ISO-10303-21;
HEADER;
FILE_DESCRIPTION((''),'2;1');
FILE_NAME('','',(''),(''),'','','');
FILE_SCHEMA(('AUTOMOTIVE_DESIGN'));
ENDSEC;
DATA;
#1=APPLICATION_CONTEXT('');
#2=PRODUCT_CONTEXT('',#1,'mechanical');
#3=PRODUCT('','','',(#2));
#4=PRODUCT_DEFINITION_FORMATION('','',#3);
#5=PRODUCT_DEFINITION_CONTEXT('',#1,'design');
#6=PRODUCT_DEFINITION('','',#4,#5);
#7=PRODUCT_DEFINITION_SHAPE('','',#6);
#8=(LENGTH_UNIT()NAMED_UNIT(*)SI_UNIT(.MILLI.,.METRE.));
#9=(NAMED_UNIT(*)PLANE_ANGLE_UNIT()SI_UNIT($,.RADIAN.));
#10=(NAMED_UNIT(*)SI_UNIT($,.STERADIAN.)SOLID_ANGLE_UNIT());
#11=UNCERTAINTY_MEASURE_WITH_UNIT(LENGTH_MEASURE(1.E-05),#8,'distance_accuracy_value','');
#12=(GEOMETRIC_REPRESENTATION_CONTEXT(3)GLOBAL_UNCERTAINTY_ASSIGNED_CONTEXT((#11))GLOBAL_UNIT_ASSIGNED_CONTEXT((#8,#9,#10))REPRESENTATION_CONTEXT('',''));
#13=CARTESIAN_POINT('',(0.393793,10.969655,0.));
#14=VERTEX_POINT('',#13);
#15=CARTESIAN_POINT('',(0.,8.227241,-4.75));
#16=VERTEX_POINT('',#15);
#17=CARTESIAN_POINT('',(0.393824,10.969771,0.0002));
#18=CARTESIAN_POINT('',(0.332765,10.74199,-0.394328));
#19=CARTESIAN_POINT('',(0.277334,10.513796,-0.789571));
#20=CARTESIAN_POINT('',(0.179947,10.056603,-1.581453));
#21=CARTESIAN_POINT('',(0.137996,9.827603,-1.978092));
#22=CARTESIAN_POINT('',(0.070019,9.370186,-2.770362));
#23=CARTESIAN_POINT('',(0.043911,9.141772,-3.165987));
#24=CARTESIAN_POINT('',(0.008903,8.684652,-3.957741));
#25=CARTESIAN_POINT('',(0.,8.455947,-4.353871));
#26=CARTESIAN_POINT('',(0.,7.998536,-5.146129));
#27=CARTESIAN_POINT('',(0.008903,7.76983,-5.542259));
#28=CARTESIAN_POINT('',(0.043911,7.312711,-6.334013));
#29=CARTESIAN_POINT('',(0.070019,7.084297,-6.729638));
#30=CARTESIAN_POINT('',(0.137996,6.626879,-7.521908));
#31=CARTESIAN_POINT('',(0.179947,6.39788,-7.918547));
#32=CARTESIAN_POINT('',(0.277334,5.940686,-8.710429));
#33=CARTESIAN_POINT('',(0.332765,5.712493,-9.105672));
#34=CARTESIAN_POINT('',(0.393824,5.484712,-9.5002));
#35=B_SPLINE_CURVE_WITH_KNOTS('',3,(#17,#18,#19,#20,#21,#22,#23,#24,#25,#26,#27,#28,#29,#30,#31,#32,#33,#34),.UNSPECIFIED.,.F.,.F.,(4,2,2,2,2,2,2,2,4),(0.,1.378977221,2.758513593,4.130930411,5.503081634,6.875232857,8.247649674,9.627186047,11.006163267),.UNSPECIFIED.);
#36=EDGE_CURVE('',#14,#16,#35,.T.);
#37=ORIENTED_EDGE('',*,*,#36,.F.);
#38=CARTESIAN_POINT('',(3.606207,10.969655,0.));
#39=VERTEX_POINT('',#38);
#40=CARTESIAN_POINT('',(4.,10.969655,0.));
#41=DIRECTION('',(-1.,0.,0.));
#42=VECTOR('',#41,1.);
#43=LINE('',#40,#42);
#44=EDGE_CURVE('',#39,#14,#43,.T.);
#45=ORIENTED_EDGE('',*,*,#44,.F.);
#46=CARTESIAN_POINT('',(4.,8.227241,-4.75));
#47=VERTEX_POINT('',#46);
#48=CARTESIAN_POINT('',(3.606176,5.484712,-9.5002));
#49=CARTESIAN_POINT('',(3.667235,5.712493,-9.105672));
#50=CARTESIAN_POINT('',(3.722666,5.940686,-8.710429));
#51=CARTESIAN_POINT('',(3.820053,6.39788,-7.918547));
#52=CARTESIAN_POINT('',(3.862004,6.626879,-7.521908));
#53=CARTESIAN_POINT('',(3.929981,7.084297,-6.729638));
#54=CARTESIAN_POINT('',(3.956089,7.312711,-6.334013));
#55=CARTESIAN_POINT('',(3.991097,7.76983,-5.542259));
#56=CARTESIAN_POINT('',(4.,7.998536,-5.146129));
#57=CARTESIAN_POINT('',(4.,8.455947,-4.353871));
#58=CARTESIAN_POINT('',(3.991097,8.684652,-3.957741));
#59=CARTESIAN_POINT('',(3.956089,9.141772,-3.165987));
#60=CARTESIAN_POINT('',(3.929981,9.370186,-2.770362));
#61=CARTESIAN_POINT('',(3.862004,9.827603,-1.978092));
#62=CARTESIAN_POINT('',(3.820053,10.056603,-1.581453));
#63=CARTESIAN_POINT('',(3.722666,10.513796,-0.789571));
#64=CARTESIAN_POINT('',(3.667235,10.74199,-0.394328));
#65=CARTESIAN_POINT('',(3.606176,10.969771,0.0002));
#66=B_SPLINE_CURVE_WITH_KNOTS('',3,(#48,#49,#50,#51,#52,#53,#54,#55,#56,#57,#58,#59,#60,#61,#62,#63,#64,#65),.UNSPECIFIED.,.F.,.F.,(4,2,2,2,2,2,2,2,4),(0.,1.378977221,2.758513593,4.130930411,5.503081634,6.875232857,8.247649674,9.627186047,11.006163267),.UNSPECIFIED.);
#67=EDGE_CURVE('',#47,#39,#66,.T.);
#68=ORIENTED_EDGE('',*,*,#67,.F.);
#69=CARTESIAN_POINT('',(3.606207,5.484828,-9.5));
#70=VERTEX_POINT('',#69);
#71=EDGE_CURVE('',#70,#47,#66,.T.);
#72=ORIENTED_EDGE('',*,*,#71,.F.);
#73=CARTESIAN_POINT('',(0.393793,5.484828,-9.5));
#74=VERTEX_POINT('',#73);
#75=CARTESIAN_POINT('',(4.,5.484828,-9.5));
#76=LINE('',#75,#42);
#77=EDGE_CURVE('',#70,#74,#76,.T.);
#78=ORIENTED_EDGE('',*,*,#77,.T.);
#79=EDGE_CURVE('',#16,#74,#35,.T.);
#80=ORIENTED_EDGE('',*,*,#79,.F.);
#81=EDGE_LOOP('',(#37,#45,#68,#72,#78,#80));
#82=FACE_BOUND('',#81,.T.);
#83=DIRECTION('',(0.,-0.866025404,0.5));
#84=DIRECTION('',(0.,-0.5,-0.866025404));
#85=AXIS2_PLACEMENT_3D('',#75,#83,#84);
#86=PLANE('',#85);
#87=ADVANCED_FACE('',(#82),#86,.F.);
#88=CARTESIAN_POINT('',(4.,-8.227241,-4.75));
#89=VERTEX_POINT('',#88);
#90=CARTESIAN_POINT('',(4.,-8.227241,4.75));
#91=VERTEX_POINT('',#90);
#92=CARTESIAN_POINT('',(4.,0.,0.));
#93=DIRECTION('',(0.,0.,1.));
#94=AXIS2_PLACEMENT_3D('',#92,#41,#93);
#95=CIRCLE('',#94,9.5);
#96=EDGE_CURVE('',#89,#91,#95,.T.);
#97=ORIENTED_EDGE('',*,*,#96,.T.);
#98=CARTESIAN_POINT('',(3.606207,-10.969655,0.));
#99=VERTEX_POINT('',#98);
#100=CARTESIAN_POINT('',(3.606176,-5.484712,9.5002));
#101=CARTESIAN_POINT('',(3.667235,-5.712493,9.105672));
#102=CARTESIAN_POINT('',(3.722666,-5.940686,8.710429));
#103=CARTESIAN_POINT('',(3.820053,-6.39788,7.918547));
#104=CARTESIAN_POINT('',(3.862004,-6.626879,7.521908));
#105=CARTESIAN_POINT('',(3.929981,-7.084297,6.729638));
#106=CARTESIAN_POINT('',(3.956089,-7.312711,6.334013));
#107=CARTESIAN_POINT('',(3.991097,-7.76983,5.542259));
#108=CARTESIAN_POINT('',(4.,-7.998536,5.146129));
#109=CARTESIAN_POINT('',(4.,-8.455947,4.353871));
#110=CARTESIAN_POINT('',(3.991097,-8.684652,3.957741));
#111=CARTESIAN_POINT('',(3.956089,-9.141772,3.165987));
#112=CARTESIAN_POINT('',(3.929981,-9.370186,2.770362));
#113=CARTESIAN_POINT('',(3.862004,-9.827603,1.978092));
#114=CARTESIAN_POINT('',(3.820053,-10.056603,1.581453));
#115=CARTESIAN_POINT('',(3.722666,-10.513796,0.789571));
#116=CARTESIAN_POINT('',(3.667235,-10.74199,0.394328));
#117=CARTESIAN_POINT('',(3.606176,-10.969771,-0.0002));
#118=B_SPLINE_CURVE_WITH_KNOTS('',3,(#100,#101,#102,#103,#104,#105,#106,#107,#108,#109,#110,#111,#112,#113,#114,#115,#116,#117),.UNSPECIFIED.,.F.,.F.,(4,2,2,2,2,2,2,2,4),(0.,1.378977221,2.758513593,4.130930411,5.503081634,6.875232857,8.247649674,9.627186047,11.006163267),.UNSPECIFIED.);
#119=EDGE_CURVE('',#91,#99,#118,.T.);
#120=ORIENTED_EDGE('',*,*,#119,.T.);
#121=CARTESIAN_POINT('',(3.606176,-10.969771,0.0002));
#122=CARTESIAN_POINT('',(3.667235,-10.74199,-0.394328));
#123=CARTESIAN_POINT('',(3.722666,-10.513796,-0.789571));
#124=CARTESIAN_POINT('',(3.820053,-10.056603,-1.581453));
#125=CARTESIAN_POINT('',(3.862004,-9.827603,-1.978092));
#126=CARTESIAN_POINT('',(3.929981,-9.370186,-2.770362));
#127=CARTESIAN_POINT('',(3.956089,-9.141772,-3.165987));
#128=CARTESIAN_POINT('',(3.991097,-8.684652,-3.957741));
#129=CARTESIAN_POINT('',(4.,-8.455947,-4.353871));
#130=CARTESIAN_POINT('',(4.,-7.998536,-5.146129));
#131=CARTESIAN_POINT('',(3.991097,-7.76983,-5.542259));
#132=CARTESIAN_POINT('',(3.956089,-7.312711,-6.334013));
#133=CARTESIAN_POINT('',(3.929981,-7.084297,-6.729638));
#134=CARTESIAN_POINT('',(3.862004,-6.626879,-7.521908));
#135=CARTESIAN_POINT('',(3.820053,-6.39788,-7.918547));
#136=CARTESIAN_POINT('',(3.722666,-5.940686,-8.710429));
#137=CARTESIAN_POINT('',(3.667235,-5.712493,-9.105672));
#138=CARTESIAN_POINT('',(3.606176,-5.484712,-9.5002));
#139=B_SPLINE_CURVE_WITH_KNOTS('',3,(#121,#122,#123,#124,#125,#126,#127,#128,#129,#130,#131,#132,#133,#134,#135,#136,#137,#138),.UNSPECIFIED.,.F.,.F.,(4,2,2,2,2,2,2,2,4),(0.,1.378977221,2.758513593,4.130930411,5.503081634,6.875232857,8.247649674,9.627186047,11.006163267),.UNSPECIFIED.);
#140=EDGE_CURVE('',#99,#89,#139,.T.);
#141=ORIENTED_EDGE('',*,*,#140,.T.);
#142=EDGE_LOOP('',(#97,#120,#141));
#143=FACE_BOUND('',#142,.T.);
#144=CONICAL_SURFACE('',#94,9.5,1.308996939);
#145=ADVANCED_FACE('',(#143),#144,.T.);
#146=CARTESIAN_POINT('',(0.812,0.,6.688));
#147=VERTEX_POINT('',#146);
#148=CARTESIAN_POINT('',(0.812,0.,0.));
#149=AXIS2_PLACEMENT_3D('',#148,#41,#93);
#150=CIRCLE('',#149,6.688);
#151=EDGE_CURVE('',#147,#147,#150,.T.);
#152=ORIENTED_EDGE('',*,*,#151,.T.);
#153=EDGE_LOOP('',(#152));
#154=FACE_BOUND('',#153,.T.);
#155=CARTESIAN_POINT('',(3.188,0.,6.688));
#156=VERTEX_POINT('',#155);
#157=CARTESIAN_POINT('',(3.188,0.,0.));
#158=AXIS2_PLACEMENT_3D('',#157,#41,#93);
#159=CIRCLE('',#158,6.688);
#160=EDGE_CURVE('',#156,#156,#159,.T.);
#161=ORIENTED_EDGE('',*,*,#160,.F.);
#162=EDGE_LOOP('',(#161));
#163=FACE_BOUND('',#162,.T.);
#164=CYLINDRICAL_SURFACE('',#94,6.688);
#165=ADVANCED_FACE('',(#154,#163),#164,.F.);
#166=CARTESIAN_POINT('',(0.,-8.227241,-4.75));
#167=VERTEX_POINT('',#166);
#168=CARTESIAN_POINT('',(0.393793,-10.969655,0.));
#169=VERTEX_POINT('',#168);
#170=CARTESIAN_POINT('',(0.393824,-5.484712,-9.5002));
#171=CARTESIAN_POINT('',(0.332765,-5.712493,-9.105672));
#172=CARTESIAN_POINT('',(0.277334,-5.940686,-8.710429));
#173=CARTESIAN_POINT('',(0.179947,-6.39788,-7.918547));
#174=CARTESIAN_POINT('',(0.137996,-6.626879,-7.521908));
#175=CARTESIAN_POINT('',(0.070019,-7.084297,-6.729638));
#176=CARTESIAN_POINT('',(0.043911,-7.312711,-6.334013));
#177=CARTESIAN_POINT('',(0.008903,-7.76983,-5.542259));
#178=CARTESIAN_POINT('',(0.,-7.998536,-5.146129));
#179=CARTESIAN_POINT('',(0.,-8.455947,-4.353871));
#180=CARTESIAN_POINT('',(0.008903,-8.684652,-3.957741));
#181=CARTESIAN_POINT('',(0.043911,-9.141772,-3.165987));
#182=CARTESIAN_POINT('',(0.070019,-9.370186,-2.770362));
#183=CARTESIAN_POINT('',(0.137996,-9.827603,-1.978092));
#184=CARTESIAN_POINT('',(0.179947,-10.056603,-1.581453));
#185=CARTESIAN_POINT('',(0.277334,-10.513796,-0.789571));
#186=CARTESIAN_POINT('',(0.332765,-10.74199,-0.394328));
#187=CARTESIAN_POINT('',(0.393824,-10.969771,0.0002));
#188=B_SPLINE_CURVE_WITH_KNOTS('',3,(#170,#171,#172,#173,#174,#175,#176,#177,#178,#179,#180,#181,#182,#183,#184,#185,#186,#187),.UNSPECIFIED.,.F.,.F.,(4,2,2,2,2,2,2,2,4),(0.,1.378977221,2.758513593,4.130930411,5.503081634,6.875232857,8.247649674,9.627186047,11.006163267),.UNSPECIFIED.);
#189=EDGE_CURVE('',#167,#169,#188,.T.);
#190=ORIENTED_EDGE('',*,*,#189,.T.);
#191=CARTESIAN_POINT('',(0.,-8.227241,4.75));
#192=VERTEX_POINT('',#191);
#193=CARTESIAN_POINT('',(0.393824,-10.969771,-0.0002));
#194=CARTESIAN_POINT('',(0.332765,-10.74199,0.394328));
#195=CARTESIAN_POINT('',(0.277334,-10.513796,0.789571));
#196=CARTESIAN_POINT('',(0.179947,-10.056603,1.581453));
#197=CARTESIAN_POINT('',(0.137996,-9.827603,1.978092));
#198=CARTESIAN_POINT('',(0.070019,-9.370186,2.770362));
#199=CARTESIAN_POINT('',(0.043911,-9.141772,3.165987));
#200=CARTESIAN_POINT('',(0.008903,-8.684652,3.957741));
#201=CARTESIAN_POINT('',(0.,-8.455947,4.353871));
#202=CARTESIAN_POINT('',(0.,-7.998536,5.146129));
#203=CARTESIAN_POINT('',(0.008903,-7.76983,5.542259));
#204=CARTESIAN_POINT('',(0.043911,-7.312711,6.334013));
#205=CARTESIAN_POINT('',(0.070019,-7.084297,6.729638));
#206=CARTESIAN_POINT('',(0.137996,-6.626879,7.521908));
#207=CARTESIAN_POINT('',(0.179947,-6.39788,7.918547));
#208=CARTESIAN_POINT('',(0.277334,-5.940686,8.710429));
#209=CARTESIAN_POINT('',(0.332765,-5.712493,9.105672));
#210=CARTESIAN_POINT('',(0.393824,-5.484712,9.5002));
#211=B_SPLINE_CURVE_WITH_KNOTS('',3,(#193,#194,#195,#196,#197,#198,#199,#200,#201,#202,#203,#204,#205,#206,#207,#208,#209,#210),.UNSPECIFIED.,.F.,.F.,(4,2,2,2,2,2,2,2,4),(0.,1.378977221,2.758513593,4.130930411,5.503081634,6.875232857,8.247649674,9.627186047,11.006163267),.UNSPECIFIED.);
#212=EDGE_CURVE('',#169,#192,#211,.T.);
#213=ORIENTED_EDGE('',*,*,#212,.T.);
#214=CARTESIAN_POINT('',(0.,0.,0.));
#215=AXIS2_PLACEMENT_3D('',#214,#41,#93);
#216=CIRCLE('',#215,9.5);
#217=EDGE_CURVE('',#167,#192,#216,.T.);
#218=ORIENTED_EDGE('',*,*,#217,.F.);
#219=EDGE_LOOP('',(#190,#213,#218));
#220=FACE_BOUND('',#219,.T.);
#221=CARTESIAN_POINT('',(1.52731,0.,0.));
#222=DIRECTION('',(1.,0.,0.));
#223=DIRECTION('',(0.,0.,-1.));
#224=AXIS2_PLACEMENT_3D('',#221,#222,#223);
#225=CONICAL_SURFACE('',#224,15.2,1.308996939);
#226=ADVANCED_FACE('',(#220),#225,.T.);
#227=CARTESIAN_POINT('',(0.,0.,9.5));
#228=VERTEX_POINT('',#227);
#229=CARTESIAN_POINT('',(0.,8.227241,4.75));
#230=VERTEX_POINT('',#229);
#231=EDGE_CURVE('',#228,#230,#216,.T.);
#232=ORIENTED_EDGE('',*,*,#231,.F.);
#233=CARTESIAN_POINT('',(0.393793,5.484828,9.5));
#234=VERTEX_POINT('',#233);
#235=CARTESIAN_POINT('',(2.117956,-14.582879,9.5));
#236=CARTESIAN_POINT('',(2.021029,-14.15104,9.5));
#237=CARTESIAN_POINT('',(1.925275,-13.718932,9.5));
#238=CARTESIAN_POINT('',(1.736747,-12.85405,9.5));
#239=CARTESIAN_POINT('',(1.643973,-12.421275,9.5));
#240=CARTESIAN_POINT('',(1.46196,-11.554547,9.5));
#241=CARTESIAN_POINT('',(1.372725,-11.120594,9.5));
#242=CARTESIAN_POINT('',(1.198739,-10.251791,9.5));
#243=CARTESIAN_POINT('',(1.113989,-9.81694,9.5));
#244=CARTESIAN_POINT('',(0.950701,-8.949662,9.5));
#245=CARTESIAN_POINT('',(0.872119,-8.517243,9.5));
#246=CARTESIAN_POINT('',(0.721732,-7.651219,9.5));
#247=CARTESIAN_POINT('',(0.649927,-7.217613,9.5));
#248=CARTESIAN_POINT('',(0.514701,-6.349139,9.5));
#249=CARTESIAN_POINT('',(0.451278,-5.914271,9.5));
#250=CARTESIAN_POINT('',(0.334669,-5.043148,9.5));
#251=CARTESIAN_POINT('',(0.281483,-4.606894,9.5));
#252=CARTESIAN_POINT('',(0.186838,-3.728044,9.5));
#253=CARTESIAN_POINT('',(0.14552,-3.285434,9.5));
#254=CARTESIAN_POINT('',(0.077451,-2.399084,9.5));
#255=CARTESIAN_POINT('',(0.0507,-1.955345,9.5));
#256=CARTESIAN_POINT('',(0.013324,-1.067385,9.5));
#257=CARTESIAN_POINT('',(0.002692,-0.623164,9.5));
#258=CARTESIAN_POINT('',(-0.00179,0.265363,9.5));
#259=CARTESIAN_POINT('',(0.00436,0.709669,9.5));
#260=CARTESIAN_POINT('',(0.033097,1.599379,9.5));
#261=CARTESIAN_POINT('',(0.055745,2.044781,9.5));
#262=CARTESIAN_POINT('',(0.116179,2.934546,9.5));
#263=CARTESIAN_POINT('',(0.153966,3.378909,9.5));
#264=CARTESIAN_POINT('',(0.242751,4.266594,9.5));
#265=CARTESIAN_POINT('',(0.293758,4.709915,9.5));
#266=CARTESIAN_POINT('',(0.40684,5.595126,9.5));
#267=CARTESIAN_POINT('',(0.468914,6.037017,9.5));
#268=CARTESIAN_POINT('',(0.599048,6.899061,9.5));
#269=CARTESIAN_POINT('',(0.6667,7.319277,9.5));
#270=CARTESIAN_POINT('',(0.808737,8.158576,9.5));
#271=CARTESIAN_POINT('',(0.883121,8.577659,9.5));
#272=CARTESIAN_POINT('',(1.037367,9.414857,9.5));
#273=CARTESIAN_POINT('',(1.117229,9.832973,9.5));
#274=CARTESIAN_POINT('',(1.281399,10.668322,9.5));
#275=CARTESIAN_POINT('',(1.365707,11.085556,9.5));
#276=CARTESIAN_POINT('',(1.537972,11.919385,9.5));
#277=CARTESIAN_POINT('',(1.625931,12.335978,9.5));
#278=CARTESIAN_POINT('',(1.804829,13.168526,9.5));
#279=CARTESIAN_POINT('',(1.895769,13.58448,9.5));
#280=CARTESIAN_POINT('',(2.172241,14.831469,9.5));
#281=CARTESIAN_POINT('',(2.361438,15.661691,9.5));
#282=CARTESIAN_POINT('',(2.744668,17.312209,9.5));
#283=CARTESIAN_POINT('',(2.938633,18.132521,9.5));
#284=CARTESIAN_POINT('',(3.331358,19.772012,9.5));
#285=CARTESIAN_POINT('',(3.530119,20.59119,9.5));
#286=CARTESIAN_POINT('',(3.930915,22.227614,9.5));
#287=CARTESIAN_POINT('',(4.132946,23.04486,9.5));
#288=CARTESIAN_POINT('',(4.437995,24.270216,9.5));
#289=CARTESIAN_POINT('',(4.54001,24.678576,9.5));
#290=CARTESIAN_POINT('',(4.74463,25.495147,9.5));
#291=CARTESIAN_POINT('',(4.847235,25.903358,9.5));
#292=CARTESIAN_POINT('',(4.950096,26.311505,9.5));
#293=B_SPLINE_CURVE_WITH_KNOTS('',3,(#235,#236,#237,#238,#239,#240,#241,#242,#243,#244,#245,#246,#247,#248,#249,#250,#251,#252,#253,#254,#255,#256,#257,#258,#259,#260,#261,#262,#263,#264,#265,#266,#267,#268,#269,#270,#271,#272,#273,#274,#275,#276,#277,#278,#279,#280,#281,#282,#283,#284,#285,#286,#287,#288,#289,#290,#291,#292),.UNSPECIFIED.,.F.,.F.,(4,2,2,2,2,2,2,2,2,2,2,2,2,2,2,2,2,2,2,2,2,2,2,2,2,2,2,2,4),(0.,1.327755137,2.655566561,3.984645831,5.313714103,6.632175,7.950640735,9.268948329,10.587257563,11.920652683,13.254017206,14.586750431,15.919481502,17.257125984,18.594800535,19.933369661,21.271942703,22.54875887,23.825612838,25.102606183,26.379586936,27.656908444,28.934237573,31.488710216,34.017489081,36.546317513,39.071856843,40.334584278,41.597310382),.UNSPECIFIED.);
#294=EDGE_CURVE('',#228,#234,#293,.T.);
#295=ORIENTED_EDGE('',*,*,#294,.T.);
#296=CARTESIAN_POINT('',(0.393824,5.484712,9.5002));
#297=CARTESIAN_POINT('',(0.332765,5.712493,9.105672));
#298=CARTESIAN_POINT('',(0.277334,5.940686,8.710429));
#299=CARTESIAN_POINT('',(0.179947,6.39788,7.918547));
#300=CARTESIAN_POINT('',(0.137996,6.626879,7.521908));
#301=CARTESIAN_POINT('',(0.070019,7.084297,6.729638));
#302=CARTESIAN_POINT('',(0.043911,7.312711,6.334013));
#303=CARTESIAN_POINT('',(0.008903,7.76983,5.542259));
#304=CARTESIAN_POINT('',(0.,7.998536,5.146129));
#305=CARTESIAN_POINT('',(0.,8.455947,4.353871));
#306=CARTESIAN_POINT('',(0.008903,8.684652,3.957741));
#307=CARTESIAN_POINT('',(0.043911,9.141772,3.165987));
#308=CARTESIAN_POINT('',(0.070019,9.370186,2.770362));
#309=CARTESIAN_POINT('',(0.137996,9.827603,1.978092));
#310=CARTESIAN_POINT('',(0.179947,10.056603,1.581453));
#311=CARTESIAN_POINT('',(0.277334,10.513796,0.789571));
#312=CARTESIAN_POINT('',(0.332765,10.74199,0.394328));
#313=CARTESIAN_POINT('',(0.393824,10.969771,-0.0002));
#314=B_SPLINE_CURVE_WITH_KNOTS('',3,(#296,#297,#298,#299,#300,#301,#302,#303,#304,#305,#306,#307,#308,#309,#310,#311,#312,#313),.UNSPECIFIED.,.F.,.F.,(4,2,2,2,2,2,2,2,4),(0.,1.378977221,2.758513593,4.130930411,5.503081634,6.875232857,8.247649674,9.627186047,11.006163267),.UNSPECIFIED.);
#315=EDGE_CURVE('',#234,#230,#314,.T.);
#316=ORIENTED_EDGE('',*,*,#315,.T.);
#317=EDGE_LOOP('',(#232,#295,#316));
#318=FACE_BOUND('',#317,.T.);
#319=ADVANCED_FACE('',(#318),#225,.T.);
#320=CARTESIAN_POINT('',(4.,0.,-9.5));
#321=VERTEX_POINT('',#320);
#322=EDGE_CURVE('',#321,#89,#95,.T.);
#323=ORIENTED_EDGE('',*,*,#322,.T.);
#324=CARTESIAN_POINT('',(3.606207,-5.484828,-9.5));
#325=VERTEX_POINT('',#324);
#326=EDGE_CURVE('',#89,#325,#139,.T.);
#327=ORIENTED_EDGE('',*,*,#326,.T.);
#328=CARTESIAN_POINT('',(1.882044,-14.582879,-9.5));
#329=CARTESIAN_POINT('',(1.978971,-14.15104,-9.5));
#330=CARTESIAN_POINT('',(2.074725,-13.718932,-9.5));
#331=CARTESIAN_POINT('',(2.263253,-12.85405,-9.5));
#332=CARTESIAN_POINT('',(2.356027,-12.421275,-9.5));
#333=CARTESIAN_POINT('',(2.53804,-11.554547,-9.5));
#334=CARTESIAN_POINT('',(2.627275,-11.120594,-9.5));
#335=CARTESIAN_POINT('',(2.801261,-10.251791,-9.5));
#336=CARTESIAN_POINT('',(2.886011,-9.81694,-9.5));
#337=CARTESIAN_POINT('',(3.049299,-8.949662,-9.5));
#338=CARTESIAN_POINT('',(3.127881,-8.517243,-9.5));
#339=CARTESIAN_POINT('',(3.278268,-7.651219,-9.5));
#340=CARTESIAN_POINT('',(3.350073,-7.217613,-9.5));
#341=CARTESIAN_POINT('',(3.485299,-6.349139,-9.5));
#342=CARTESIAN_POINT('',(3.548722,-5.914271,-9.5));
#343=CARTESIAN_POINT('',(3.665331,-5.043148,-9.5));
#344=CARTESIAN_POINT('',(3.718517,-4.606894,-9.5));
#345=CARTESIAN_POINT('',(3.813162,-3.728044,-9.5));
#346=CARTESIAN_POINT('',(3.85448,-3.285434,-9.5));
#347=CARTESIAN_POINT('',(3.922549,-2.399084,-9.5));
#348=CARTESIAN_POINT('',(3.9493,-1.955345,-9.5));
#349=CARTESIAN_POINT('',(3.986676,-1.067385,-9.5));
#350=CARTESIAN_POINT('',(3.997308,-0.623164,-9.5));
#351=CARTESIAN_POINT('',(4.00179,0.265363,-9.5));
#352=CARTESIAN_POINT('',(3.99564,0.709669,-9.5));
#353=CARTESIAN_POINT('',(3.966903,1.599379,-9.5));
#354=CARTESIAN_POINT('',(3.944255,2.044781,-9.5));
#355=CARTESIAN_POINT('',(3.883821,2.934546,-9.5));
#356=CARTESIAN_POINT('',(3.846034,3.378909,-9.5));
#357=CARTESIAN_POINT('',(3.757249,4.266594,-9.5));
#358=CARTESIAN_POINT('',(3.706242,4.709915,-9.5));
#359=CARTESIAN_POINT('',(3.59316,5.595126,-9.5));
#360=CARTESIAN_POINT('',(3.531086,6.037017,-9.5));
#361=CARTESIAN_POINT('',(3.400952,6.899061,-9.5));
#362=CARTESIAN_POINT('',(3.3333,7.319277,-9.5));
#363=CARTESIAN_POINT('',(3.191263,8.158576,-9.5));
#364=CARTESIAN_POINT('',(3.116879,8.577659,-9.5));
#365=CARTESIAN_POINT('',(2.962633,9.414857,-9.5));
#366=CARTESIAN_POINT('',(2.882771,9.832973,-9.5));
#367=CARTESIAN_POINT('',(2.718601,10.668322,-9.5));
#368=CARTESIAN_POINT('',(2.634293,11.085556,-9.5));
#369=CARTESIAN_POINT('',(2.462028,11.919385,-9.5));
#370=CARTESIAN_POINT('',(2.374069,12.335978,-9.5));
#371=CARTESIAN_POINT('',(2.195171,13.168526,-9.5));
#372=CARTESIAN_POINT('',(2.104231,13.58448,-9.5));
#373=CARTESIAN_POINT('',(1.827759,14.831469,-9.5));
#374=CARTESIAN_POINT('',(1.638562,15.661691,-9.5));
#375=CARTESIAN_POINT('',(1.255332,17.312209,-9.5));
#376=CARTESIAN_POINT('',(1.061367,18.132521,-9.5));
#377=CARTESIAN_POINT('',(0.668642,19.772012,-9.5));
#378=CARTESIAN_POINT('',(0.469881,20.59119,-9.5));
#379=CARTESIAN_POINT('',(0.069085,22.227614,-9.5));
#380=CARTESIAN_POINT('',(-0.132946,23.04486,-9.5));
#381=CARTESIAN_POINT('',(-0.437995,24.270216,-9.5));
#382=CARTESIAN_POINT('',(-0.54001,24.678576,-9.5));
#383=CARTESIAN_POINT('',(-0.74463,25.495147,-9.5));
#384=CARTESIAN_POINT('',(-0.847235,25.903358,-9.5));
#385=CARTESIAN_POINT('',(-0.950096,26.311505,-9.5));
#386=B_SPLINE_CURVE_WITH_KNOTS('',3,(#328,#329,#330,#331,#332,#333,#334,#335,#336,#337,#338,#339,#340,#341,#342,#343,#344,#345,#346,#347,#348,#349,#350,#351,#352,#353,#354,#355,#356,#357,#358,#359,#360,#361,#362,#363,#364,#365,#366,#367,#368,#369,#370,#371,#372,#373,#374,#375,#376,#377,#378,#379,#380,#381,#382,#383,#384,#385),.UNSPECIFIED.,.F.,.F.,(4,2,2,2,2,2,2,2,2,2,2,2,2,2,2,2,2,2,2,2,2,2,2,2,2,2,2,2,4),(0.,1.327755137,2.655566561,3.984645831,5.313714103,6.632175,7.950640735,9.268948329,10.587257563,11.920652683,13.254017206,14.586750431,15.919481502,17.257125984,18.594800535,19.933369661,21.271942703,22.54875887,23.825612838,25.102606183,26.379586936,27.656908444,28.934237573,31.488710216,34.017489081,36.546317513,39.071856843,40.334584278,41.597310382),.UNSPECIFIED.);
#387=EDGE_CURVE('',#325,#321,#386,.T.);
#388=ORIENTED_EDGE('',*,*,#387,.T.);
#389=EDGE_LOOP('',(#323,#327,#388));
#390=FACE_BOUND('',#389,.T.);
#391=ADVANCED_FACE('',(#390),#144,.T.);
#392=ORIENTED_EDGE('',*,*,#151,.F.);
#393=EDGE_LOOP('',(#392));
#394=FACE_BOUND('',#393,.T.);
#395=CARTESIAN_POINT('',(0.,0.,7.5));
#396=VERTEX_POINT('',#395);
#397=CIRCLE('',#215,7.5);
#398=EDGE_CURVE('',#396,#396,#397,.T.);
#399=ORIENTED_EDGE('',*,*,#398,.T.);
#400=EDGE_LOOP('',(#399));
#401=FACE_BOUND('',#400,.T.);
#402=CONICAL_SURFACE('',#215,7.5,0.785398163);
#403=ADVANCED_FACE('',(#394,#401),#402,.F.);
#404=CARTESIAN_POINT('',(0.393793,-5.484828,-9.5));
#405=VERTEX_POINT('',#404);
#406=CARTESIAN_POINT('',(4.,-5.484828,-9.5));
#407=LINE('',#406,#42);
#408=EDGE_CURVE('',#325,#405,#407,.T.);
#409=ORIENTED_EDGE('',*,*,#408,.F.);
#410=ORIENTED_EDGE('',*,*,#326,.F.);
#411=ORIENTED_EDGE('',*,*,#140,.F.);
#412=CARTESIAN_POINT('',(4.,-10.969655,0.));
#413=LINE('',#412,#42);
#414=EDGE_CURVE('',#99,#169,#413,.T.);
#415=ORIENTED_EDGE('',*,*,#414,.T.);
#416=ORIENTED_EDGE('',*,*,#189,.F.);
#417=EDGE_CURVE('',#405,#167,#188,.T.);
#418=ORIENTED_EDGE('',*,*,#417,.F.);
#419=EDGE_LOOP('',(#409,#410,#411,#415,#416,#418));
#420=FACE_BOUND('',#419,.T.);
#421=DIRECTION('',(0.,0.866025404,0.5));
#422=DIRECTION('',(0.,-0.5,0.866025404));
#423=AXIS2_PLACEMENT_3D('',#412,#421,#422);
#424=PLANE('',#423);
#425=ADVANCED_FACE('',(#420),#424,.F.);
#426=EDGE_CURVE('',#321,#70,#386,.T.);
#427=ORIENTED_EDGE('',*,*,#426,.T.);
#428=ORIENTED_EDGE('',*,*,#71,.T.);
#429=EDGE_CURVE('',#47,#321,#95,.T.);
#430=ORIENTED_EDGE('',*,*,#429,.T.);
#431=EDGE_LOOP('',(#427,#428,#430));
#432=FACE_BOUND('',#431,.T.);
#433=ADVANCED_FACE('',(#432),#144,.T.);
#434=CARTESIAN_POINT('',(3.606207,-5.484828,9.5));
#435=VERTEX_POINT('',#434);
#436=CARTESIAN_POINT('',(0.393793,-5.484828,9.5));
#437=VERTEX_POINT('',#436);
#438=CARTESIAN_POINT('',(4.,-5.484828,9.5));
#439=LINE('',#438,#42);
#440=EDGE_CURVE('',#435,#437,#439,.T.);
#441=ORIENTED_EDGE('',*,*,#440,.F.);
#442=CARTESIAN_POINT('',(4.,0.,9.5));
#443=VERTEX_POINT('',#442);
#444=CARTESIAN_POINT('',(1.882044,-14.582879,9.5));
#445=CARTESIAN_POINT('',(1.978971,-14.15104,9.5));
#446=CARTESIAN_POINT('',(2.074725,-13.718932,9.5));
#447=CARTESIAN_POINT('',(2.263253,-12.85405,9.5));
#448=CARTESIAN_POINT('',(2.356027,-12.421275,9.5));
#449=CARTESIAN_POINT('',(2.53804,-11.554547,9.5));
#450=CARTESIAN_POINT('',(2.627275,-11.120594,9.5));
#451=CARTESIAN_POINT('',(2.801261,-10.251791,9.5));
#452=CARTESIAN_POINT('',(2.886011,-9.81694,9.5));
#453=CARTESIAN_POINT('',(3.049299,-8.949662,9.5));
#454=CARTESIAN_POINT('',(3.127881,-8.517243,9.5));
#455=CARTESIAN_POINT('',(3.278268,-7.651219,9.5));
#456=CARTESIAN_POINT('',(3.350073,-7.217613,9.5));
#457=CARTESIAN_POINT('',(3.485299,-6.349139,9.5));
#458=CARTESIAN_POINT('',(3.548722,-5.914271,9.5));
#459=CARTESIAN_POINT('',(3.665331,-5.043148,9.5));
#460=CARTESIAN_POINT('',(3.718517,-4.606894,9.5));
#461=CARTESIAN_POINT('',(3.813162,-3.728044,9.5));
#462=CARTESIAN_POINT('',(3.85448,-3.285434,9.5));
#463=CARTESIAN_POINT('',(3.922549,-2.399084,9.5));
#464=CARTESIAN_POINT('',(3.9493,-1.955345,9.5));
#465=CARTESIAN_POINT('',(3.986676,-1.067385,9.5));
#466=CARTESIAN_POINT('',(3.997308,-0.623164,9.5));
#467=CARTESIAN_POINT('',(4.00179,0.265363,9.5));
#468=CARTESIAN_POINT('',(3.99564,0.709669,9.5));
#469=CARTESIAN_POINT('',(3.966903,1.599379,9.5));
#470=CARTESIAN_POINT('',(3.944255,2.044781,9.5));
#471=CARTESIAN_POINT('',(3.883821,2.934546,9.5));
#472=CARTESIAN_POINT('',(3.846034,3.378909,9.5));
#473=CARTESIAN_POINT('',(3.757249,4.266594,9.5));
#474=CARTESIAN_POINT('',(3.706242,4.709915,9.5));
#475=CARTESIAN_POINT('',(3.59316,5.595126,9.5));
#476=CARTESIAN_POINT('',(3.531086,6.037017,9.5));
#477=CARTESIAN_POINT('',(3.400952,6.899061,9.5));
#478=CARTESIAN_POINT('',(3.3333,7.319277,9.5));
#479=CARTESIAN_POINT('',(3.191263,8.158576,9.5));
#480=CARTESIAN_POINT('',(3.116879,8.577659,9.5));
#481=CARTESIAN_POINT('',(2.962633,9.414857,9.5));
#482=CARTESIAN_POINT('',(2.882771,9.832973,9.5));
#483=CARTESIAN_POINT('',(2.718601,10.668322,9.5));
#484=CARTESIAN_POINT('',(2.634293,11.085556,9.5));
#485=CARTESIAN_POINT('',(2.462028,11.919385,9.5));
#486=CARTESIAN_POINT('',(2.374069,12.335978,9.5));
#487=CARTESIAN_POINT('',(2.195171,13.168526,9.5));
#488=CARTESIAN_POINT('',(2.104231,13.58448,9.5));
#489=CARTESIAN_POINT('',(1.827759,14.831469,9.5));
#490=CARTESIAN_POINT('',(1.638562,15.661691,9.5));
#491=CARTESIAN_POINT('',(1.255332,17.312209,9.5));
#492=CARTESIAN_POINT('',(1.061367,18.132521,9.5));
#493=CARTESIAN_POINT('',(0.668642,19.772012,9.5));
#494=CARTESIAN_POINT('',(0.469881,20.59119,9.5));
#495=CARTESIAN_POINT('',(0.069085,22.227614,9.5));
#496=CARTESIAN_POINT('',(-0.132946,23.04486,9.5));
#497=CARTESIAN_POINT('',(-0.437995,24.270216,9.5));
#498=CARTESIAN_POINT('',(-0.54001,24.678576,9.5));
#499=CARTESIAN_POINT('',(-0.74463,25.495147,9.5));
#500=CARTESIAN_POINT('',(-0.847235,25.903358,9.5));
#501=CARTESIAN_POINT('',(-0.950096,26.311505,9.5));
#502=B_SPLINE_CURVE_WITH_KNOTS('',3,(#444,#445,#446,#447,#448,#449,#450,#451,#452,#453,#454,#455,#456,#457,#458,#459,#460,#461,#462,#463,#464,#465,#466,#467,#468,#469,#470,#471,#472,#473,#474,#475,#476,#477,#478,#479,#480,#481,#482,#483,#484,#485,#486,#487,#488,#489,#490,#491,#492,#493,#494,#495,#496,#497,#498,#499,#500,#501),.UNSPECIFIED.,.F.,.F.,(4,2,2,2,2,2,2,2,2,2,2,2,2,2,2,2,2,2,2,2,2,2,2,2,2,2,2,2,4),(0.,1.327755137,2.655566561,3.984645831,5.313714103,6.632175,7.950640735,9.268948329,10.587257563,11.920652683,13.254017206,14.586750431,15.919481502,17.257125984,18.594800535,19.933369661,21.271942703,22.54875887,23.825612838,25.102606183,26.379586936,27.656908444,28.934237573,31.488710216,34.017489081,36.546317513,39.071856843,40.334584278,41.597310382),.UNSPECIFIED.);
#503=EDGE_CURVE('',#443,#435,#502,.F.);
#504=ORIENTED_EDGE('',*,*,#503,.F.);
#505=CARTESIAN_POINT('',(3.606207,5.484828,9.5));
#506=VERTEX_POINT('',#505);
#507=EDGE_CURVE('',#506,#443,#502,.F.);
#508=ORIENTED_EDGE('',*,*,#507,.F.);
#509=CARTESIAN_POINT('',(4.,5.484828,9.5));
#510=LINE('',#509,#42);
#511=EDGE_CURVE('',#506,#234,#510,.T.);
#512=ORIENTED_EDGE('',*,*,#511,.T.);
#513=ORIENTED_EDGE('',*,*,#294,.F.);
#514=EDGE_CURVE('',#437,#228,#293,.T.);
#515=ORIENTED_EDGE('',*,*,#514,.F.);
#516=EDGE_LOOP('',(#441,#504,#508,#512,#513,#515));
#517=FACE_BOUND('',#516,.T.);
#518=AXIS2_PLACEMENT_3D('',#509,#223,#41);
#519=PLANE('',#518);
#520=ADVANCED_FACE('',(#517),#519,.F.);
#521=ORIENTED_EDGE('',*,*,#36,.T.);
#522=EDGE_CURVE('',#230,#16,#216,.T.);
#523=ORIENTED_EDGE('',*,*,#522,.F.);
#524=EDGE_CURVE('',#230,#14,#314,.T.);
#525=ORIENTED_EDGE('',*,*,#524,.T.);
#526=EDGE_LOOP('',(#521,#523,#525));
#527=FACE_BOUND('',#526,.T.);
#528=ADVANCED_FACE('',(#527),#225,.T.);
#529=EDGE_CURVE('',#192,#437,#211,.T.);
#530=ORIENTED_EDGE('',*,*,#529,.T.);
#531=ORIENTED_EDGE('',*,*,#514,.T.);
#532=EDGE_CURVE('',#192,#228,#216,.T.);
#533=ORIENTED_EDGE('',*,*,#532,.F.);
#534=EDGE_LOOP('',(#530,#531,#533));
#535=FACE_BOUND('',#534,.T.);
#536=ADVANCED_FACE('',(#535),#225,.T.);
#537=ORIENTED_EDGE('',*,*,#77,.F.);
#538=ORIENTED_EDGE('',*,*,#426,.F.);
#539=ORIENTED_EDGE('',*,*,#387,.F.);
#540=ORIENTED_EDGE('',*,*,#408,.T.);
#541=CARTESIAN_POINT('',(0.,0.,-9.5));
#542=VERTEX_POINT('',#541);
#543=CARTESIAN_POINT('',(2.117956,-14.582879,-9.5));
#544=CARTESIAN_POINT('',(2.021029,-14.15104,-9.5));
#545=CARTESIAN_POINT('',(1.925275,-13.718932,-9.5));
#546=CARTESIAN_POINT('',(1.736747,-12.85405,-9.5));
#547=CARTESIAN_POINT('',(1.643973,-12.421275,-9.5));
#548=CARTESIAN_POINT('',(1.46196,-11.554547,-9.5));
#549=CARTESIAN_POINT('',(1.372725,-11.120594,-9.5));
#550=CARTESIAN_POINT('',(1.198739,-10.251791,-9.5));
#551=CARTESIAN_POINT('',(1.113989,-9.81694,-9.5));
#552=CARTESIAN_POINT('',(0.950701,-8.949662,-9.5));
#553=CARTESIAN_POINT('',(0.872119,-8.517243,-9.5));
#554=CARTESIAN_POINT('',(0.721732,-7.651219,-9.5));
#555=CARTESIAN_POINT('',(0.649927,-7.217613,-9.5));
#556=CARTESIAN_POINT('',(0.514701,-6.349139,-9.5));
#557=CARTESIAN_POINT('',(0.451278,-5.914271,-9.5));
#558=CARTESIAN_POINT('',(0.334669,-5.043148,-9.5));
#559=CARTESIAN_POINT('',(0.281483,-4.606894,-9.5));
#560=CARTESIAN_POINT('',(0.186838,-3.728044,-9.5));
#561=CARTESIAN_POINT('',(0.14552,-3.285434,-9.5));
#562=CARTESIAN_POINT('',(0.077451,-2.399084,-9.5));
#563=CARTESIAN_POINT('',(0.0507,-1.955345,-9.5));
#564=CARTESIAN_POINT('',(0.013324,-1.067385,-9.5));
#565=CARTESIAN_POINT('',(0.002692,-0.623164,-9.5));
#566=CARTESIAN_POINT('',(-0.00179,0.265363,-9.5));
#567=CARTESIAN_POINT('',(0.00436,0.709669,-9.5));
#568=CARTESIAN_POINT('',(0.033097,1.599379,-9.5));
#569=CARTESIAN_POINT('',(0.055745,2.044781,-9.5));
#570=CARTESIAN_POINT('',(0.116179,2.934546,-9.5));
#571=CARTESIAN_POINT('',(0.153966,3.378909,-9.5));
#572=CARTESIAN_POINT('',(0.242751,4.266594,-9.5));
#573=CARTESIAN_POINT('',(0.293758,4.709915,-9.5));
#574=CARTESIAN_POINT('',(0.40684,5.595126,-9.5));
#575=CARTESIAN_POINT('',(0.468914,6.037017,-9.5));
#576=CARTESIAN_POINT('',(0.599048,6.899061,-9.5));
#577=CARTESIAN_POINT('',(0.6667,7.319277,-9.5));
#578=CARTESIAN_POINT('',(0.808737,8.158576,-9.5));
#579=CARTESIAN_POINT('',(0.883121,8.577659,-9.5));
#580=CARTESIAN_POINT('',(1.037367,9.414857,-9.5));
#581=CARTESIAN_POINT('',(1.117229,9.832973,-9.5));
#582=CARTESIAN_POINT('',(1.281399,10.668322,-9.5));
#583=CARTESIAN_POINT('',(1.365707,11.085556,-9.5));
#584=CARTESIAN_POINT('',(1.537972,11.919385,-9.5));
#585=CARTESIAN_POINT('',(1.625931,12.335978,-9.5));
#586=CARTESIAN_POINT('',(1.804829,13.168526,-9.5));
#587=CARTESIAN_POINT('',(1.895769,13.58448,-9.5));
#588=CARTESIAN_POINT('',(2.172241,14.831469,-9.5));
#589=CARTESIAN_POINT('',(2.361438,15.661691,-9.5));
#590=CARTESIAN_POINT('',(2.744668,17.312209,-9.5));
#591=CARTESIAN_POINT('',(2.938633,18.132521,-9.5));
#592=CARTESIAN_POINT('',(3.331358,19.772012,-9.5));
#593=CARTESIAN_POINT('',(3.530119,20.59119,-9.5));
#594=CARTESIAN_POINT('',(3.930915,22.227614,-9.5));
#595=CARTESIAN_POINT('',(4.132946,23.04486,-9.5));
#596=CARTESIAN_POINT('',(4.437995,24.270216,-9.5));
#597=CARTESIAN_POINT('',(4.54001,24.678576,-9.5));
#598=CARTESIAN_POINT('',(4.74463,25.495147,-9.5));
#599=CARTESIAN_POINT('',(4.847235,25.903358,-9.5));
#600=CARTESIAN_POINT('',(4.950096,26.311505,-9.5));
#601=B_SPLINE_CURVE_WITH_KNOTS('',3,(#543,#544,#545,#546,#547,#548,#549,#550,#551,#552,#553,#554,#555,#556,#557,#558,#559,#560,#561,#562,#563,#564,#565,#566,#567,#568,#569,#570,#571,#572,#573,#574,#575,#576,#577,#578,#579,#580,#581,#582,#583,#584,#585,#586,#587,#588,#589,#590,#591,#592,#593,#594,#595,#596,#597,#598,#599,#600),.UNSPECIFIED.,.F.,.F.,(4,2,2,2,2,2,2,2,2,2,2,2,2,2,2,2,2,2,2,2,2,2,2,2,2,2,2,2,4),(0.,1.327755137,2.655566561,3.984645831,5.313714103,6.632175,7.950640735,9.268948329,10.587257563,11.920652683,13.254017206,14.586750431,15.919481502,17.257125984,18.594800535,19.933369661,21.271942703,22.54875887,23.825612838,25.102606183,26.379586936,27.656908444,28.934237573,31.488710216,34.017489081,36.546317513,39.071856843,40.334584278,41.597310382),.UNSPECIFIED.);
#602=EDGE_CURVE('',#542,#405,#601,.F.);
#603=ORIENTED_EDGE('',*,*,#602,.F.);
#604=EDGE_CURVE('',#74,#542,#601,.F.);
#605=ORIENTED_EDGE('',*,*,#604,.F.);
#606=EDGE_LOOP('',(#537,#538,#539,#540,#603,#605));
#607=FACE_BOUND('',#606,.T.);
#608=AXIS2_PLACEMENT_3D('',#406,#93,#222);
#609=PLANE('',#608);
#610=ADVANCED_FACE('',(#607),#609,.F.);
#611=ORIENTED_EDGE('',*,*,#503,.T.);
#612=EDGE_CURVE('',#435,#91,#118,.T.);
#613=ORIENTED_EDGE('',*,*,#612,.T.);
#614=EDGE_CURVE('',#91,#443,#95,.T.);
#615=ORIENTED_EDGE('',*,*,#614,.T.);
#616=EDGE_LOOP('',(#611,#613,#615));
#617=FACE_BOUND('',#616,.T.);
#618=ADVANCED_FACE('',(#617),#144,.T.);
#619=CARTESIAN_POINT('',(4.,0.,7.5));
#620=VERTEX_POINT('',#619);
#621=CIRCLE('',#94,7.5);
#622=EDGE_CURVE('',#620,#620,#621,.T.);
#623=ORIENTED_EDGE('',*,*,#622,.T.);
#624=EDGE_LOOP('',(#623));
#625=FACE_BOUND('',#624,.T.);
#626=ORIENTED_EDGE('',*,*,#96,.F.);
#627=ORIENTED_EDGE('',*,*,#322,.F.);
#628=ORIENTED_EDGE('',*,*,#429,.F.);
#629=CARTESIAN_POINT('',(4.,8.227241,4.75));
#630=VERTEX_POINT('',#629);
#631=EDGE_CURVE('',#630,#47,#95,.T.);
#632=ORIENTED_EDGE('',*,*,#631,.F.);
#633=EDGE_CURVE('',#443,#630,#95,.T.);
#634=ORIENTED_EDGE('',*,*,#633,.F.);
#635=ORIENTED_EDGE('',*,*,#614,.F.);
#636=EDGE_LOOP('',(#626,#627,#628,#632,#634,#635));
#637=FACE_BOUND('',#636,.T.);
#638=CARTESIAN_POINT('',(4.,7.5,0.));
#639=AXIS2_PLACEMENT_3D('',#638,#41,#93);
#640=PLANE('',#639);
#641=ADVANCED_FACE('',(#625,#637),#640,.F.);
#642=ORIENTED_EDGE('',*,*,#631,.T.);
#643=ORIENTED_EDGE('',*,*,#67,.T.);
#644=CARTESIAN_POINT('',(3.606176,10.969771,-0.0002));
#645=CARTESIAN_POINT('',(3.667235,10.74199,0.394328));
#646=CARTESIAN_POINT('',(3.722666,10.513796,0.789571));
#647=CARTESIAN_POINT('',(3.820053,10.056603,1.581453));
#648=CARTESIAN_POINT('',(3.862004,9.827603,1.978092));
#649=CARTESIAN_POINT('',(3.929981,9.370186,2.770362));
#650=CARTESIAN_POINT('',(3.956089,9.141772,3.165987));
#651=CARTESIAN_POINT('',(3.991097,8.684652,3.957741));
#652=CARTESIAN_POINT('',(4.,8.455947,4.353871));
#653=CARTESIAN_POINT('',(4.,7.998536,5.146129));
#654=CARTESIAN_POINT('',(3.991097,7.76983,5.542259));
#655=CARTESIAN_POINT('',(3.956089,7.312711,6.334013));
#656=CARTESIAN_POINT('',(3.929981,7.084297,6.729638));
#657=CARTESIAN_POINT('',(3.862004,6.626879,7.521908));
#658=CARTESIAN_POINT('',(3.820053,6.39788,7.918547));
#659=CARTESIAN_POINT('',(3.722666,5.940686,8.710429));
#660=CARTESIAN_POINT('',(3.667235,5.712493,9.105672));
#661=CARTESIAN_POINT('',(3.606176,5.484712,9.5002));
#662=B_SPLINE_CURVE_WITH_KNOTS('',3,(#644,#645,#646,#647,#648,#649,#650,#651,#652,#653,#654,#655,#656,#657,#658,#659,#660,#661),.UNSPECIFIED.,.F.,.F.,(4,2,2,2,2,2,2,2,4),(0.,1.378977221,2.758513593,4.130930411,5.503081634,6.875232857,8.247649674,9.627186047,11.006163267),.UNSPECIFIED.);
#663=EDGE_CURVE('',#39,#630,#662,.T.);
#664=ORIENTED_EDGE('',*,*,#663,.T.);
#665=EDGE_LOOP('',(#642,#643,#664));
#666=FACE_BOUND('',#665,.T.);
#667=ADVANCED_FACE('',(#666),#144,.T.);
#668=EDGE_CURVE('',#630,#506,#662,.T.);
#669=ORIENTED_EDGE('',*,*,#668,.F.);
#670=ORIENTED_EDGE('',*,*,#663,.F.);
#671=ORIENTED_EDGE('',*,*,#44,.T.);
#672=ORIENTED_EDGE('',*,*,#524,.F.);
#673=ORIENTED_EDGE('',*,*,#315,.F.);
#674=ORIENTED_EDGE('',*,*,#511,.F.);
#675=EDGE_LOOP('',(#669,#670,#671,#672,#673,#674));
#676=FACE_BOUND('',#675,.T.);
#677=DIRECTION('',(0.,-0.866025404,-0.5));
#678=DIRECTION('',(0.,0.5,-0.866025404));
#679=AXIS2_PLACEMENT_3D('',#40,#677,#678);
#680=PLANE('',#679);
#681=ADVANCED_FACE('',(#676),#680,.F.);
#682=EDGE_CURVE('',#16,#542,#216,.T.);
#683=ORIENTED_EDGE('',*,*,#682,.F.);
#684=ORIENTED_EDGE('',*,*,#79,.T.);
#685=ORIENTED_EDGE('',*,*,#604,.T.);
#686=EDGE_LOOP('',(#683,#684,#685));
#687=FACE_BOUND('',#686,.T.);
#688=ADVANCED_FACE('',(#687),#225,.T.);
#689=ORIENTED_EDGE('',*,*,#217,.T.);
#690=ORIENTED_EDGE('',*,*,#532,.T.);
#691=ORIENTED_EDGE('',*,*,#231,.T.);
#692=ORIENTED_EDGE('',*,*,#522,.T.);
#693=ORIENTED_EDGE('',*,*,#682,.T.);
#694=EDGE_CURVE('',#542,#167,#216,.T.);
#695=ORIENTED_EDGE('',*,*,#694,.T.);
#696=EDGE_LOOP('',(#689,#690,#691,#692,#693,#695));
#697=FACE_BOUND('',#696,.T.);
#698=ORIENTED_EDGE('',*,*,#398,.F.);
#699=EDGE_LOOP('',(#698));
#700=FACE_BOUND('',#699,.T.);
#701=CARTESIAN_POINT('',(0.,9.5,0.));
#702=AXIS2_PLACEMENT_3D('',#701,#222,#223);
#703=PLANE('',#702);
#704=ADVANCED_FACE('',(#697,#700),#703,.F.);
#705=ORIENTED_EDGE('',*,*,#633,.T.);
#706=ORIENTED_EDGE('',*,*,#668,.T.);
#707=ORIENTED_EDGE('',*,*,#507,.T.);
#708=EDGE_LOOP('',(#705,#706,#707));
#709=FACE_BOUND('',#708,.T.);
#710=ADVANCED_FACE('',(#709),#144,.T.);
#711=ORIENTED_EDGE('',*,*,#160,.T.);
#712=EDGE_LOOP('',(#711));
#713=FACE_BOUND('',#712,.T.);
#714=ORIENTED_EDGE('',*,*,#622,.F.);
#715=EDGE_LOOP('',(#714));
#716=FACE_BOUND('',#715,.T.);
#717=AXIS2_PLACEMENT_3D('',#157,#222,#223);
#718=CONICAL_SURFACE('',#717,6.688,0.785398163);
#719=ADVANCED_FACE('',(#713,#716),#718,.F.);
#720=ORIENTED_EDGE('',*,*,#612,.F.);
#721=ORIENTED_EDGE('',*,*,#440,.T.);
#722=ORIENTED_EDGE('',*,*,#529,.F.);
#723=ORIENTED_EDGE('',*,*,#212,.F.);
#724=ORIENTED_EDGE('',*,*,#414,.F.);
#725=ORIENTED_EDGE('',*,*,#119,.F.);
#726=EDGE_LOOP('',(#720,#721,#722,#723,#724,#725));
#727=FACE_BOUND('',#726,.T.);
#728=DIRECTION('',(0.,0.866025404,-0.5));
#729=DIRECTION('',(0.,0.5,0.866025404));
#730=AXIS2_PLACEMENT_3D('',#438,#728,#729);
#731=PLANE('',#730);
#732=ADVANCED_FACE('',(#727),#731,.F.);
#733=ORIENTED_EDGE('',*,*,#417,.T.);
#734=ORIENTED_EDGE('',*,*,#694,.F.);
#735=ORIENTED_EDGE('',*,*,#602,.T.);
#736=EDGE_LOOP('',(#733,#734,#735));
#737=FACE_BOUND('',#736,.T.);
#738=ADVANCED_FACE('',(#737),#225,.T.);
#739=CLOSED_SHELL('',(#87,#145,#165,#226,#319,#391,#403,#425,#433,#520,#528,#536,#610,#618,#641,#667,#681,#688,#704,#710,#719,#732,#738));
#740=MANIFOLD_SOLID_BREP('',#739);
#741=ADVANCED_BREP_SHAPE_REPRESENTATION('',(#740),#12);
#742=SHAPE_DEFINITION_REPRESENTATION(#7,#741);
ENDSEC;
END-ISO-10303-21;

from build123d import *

# Parameters (mm, degrees)
SKETCH_2_R          = 40
CUT_EXTRUDE_1_DEPTH = 4


with BuildPart() as part:
    # 草图1 → 旋转1 (revolve)
    with BuildSketch(Plane.XY, mode=Mode.PRIVATE) as revolve_1_sk:
        Polygon((0, 9.5), (0, 7.5), (0.812, 6.688), (3.188, 6.688), (4, 7.5), (4, 9.5), (2.472689603, 15.2), (1.527310397, 15.2), align=None)
    revolve(revolve_1_sk.sketch.rotate(Axis((4, 0, 0), (-1, 0, 0)), 270), axis=Axis((4, 0, 0), (-1, 0, 0)))

    # 草图2 → 切除-拉伸1 (cut)
    with BuildSketch(Plane(origin=(0, 0, 0), x_dir=(0, 0, -1), z_dir=(1, 0, 0))):
        Circle(SKETCH_2_R)
        Polygon((-9.5, -5.484827557), (0, -10.969655115), (9.5, -5.484827557), (9.5, 5.484827557), (0, 10.969655115), (-9.5, 5.484827557), align=None, mode=Mode.SUBTRACT)
    extrude(amount=CUT_EXTRUDE_1_DEPTH, mode=Mode.SUBTRACT)


solid = part.part
